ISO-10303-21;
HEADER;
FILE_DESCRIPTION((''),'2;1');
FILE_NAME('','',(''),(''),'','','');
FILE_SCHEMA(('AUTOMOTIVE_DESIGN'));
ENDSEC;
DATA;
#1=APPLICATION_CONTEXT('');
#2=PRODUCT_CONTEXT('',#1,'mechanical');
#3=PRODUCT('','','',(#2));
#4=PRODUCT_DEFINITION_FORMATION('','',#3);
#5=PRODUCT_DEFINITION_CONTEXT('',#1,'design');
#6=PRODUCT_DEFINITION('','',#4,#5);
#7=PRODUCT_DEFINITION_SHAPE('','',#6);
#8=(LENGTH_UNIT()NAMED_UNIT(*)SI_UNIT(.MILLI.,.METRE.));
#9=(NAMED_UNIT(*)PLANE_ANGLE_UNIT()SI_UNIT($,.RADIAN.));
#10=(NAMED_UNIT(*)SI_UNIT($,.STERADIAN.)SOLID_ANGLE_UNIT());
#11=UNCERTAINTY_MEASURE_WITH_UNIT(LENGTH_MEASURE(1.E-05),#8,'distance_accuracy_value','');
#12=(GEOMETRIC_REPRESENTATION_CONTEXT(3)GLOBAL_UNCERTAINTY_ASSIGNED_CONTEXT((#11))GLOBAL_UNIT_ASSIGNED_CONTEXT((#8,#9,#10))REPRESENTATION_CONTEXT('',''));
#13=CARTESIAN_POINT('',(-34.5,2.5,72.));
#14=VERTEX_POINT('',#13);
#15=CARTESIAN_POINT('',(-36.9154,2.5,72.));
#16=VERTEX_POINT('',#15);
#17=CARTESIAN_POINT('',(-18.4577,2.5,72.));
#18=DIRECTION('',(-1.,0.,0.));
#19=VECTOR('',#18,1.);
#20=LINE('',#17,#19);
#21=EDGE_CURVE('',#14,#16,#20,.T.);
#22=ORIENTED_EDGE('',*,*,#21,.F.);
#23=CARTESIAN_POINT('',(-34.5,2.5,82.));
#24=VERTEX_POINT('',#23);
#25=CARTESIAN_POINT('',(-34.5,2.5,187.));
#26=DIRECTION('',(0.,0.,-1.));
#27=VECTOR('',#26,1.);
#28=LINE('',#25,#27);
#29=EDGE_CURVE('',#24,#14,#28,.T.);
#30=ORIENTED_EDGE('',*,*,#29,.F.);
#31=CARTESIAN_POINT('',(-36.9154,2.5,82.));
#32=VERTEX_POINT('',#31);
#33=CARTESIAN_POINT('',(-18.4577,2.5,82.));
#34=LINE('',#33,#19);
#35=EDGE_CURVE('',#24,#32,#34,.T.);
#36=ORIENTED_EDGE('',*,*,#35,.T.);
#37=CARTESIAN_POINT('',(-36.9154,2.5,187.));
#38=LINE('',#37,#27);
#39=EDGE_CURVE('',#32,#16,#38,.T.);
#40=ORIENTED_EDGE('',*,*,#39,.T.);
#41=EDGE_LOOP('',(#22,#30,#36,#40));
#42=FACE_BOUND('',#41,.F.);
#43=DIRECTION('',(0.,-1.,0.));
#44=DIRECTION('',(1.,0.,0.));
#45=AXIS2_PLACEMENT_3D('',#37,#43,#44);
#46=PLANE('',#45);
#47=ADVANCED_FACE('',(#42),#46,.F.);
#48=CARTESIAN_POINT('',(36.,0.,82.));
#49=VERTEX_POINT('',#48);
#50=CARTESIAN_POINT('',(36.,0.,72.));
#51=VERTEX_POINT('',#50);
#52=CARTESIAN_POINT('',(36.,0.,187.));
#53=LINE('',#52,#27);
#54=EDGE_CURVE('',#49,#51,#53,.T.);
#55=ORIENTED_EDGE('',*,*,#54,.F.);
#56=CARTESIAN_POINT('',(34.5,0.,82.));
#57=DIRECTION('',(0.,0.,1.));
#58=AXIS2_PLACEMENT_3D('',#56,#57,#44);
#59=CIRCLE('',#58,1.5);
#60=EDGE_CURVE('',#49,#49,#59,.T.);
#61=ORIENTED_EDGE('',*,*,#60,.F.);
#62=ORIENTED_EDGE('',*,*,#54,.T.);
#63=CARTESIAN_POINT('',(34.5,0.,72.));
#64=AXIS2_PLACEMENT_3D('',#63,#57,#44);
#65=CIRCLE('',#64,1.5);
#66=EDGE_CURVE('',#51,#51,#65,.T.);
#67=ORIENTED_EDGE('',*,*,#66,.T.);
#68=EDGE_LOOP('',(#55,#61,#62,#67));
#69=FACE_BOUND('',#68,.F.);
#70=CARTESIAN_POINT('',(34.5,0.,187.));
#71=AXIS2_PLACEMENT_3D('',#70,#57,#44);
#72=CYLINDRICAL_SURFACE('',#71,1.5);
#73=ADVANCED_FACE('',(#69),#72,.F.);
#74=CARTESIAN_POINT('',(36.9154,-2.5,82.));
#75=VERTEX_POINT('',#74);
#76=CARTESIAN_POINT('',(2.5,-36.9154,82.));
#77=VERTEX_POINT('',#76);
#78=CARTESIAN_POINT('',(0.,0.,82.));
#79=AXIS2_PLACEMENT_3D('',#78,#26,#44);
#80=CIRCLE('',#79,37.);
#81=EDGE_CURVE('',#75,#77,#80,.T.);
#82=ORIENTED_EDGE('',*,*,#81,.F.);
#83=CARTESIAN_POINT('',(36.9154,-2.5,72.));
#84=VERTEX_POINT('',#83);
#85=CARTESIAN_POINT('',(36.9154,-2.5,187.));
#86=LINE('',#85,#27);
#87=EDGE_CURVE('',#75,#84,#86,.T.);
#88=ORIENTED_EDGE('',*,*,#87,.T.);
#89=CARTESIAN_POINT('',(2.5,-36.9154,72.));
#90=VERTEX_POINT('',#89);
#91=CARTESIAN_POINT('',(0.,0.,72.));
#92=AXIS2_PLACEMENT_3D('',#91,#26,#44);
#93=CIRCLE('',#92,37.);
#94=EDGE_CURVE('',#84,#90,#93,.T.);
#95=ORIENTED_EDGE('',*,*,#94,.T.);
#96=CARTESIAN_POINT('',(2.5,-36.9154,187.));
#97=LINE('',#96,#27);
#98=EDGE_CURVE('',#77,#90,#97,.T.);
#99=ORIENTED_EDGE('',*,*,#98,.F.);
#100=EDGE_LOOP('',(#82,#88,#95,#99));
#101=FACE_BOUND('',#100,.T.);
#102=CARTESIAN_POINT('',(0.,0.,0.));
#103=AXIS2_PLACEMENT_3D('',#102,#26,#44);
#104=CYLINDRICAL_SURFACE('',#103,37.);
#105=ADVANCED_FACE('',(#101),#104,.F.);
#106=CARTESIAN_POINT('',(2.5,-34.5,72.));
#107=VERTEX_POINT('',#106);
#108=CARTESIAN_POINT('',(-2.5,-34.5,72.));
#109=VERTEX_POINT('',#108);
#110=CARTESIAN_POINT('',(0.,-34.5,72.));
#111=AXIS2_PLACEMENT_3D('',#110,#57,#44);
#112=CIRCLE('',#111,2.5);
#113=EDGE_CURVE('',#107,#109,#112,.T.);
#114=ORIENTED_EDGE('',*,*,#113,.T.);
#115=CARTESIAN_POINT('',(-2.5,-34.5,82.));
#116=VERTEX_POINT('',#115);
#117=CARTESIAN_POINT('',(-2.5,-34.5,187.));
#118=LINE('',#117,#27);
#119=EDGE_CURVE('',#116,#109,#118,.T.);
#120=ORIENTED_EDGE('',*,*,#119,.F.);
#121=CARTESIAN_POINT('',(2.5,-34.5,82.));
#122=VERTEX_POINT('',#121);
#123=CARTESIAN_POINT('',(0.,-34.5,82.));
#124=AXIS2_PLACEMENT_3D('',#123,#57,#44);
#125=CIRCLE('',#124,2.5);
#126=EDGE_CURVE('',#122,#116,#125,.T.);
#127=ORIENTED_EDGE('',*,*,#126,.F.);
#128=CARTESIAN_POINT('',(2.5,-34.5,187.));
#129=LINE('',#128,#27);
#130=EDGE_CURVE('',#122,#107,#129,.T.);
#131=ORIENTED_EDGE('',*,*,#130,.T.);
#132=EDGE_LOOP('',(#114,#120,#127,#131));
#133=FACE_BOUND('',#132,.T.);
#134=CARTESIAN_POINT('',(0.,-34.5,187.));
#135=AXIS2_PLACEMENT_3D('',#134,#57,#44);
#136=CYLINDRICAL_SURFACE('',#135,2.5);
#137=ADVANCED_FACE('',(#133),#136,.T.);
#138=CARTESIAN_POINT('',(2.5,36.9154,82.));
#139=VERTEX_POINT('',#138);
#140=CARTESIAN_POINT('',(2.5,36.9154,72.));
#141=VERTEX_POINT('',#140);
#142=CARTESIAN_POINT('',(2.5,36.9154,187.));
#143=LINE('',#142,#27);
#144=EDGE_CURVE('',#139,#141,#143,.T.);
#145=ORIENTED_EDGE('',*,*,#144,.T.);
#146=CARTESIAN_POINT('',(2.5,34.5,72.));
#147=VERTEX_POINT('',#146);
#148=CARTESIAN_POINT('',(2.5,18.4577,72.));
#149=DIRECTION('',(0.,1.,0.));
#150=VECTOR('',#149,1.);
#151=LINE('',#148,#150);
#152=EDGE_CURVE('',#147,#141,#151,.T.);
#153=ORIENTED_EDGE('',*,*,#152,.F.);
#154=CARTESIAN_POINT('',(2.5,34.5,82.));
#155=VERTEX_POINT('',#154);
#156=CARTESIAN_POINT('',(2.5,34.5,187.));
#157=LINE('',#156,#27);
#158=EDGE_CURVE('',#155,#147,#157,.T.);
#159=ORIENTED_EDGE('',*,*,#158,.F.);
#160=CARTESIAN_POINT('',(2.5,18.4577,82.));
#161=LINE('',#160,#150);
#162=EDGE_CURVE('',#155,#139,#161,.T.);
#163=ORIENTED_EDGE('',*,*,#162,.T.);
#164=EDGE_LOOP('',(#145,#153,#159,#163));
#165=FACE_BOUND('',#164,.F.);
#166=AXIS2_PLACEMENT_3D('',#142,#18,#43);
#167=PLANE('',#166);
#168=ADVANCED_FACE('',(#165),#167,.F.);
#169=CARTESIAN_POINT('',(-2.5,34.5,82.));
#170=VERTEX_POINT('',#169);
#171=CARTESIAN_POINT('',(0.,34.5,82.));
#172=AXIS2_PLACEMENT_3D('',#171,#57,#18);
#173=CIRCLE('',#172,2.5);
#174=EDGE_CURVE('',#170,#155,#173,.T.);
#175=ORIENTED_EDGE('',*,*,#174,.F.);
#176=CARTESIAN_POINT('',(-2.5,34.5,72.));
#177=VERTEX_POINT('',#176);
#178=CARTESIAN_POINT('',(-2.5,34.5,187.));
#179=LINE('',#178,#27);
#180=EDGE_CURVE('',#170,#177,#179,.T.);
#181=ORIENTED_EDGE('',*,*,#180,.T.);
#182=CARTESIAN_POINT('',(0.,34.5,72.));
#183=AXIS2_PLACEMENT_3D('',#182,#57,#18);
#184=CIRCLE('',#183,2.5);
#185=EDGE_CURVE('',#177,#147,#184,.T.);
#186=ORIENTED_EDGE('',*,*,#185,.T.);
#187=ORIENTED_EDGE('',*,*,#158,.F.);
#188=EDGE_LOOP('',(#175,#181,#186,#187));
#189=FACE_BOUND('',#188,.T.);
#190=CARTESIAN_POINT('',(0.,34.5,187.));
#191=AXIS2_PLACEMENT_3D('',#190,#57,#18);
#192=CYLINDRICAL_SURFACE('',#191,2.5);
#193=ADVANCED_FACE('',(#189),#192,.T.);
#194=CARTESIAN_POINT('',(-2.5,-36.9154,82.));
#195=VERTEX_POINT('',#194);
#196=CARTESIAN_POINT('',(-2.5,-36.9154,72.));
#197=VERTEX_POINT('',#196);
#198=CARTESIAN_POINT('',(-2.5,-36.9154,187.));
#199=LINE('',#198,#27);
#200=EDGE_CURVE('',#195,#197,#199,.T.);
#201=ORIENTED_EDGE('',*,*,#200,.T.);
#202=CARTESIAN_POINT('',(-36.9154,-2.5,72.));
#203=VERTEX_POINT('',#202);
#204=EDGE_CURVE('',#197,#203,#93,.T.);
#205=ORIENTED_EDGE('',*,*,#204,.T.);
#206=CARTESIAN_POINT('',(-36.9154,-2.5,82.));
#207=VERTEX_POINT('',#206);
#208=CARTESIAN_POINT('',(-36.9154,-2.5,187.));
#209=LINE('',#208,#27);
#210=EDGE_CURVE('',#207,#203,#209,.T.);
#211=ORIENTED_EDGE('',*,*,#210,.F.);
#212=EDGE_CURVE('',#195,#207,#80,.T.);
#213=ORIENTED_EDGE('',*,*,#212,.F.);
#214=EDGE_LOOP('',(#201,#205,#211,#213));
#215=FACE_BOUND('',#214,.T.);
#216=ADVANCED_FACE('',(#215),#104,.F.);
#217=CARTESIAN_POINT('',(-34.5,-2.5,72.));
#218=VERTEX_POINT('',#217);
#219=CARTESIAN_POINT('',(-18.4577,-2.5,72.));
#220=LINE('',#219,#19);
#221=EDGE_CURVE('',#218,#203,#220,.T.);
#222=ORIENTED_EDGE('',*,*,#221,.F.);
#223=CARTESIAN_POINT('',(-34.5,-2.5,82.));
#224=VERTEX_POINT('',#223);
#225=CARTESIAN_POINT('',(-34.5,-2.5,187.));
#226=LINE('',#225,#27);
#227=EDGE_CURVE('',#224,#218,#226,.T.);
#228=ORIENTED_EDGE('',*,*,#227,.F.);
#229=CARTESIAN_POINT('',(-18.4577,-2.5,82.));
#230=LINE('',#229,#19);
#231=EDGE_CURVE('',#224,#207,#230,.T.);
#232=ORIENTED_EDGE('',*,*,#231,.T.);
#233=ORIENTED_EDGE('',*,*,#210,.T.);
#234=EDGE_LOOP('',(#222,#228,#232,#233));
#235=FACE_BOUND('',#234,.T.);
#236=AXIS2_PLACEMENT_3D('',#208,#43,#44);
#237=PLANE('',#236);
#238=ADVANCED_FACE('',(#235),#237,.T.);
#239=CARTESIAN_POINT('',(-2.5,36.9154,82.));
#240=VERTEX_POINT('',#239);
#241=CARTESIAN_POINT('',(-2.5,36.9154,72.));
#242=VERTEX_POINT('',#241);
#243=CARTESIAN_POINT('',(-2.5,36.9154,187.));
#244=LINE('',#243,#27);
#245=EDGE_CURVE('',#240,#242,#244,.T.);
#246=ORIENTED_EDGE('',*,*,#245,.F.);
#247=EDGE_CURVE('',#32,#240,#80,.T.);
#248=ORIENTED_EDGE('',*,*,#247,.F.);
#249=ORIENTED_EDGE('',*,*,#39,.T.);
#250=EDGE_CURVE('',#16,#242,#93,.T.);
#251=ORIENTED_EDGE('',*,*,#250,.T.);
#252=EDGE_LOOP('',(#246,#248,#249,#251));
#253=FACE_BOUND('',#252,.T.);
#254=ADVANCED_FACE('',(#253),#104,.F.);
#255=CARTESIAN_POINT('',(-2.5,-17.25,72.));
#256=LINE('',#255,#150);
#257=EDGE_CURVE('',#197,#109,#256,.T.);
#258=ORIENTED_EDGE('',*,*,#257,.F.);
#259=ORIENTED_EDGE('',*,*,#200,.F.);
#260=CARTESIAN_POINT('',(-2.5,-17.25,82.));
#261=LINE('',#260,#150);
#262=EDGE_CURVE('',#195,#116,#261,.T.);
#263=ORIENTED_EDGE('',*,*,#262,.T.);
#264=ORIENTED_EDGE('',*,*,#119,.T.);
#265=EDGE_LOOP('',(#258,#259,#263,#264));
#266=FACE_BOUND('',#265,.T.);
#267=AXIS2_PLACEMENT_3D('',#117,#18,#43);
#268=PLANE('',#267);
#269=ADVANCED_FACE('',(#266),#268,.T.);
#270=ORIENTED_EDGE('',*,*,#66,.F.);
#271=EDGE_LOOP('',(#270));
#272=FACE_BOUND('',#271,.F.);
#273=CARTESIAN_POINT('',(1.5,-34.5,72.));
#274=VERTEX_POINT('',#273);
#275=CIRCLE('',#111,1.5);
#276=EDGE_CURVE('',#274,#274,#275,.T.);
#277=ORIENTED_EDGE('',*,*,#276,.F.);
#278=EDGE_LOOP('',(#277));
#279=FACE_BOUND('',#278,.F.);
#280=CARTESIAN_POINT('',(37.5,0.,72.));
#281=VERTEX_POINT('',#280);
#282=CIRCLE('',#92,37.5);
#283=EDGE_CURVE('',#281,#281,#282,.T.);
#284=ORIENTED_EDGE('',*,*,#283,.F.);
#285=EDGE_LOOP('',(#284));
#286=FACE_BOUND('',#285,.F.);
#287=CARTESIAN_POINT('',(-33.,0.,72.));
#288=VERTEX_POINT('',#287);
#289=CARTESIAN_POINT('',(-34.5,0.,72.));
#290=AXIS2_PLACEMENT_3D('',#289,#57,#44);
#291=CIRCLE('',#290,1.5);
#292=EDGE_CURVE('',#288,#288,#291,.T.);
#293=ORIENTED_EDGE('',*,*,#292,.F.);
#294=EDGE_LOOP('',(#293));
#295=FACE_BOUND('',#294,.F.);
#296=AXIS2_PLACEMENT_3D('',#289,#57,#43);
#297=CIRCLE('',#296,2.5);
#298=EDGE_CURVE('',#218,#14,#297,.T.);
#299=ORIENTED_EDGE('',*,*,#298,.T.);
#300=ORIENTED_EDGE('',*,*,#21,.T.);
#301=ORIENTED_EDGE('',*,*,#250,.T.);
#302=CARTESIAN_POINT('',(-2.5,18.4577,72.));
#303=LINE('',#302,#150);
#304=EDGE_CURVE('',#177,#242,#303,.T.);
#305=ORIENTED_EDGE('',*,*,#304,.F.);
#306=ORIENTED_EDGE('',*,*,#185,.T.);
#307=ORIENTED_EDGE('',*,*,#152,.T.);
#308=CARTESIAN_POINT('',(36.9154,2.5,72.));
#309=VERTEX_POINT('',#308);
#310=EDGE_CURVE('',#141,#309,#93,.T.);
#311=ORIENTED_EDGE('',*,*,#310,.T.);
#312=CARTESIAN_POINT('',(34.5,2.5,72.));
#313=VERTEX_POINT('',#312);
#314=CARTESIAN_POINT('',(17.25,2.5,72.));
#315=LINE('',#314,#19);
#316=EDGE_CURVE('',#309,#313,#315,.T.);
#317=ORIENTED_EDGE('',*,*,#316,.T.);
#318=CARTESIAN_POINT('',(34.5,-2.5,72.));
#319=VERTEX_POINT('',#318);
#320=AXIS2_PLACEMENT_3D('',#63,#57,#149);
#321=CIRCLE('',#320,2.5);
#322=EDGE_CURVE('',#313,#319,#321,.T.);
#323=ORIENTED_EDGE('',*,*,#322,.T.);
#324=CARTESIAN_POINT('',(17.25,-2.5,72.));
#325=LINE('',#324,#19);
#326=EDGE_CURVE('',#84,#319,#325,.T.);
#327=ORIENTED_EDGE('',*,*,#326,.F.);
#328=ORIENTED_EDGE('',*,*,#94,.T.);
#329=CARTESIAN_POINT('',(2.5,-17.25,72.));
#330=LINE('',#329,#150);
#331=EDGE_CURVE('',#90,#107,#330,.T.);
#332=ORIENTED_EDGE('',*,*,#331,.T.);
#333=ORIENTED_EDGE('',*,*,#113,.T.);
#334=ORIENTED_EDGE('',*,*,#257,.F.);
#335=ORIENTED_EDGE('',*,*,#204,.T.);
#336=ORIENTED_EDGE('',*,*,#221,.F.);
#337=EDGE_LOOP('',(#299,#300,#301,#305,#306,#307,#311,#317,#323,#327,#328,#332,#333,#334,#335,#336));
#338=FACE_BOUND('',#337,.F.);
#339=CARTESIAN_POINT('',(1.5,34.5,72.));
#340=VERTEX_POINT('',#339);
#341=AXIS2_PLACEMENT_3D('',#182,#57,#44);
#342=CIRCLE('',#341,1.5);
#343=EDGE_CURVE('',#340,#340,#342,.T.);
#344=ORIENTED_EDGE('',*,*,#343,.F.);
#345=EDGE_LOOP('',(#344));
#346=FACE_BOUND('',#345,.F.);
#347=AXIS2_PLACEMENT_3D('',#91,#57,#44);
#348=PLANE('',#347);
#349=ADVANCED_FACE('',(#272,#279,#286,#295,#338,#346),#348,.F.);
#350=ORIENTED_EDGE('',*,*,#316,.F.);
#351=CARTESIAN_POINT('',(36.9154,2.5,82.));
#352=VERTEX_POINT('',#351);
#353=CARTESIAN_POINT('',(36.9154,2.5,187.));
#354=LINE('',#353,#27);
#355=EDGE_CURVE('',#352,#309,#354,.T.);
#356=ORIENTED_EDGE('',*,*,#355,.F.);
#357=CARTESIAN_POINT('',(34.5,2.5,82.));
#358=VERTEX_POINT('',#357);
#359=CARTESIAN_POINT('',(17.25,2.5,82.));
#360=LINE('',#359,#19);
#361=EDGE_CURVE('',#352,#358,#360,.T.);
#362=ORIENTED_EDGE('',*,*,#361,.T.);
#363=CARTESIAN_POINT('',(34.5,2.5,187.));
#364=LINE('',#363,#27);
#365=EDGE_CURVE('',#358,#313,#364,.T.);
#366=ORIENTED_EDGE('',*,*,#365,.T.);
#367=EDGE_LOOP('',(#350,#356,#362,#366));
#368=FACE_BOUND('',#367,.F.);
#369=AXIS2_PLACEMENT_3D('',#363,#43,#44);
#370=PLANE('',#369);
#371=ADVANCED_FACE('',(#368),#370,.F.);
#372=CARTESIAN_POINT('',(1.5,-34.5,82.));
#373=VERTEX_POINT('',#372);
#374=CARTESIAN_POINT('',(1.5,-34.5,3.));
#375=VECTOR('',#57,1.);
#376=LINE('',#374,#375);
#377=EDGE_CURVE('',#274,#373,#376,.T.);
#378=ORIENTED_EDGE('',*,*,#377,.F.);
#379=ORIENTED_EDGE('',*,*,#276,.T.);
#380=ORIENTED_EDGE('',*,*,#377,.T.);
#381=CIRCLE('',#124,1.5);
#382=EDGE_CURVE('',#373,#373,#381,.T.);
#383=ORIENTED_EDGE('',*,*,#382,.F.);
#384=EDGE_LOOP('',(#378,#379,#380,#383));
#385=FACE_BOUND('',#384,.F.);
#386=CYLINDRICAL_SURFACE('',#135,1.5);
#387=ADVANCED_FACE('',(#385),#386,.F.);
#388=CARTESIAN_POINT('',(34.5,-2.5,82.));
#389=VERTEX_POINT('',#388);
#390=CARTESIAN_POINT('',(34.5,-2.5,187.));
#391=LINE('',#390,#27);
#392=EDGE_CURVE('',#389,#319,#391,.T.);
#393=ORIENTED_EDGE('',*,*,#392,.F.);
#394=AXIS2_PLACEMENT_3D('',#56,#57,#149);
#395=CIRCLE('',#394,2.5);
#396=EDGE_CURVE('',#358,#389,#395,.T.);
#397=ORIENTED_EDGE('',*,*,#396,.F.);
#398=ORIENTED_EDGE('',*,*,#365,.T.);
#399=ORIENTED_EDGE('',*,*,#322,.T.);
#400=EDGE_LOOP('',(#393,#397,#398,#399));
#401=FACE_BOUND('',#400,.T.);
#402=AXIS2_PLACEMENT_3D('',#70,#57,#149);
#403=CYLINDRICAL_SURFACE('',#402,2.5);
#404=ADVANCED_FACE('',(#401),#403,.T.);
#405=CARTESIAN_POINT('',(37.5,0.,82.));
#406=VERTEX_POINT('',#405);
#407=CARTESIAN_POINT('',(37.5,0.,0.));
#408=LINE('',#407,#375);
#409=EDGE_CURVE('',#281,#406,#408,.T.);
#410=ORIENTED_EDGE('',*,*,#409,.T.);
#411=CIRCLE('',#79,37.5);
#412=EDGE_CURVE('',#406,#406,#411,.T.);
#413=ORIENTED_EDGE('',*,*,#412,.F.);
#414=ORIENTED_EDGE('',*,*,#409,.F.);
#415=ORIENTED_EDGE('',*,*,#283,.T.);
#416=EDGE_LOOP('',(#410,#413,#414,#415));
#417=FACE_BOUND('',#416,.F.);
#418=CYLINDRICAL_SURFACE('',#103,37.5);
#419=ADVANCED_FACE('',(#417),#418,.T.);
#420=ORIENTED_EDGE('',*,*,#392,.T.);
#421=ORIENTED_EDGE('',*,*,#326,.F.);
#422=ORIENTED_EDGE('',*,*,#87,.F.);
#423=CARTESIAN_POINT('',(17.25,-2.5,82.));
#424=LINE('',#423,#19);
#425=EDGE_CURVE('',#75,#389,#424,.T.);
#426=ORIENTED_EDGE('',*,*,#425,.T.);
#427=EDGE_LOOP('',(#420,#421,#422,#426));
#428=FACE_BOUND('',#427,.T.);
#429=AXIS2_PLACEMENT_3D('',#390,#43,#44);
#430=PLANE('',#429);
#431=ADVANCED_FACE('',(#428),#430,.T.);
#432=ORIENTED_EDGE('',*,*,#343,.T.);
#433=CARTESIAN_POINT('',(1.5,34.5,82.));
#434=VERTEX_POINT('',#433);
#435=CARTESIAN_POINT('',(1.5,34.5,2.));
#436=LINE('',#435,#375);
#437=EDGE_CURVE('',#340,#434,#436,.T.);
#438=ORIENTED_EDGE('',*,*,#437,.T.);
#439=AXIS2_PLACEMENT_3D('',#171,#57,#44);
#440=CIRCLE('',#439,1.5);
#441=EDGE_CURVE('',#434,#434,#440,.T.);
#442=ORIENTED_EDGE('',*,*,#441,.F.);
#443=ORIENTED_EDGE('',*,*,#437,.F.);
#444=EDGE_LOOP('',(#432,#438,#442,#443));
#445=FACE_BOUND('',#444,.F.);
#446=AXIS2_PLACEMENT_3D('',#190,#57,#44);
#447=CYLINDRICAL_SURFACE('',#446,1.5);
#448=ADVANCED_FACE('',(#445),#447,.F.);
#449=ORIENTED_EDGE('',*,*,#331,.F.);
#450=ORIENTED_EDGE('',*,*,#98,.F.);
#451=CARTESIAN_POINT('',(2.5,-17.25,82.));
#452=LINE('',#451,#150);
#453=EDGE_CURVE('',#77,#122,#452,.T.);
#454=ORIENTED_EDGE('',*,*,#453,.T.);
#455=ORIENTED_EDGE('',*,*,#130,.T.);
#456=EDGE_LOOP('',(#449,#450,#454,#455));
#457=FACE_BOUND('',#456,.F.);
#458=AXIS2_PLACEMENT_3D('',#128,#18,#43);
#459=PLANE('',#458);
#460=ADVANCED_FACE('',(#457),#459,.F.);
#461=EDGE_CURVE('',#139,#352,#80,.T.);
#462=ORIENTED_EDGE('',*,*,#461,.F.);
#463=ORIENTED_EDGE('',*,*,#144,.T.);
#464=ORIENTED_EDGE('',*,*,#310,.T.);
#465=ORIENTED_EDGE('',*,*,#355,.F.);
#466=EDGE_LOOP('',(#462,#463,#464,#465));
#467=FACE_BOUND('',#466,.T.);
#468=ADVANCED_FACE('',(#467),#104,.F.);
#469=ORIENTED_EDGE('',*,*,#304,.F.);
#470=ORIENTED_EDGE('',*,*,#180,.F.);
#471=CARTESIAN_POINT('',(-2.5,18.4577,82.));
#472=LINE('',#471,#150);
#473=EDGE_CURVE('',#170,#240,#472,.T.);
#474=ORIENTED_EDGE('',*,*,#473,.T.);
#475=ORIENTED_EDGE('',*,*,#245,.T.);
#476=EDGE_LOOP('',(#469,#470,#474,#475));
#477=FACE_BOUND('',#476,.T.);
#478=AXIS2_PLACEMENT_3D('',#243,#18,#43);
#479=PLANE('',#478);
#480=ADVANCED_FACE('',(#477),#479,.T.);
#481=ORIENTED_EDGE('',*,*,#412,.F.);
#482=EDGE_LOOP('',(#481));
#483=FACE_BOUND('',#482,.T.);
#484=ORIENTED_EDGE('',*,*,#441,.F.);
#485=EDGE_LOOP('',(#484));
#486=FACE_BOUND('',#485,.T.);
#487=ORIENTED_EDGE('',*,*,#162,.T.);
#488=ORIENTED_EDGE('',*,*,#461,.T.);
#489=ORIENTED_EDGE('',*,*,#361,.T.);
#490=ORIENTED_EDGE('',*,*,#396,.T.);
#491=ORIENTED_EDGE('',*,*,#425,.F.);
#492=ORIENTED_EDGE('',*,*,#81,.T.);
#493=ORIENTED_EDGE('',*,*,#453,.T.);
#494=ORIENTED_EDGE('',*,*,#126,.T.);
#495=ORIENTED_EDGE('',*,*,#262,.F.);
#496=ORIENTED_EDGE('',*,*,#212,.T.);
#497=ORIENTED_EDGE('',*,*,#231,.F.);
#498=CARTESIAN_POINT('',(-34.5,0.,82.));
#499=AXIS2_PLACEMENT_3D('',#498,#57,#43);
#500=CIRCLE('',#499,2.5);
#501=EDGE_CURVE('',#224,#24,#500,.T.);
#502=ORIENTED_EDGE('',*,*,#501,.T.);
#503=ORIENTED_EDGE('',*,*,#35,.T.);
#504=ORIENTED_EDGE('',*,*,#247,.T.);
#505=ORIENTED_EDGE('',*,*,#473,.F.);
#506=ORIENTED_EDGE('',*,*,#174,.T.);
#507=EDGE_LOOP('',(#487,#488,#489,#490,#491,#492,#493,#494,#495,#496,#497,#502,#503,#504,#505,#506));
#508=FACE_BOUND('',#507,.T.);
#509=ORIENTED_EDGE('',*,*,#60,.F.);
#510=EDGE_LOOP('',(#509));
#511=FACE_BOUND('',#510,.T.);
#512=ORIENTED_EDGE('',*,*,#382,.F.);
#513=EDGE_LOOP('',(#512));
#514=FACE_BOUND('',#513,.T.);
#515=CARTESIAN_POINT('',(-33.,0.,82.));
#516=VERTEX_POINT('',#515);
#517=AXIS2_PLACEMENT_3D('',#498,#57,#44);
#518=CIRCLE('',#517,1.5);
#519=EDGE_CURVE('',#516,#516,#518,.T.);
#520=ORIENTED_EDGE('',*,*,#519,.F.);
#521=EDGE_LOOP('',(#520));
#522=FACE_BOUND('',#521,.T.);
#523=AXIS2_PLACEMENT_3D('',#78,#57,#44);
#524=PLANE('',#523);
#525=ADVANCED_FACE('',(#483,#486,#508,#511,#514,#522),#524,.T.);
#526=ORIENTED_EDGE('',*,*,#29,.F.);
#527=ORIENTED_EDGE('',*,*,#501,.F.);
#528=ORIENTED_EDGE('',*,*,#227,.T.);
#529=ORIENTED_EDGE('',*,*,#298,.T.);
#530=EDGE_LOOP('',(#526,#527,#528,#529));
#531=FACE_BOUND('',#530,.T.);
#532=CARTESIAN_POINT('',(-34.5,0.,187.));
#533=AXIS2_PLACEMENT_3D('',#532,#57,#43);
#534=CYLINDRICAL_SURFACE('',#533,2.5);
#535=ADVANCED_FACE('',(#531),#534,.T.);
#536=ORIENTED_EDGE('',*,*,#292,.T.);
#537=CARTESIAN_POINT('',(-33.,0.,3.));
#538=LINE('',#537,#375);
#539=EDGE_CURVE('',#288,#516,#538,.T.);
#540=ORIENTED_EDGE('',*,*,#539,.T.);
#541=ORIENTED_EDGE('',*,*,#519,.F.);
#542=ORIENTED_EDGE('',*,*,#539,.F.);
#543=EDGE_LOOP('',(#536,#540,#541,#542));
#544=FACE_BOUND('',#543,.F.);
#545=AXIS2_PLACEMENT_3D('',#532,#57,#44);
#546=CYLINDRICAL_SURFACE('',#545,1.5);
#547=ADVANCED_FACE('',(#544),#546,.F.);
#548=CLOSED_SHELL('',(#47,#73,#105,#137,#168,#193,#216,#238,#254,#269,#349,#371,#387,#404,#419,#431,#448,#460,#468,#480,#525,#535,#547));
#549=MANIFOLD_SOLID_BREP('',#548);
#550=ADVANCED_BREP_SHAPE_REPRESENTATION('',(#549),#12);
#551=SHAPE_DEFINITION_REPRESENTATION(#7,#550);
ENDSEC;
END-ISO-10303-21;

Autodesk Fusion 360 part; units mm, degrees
sketch "Esboço2" plane through (0, 0, 0) normal (0, 0, 1) x (1, 0, 0)
  circle A0 centre (0, 0) radius 37.5
  circle A1 centre (0, 0) radius 37
  dimension "d6" = 75
  dimension "d7" = 74
extrude "Extrusão2" add sketch "Esboço2" along normal blind 190
ref_plane "Plano de trabalho9" through (0, 0, 187) normal (0, 0, 1) x (1, 0, 0)
sketch "Esboço10" plane through (0, 0, 187) normal (0, 0, 1) x (1, 0, 0)
  circle A0 centre (0, 0) radius 34.5 construction
  line L0 (0, 0) -> (-68.1762, 0) construction
  line L1 (0, 0) -> (60, 0) construction
  line L2 (0, 0) -> (0, 45) construction
  line L3 (0, 0) -> (0, -43.1659) construction
  circle A1 centre (34.5, 0) radius 1.5
  line L4 (3, -43) -> (3, -42)
  circle A2 centre (0, 34.5) radius 1.5
  circle A3 centre (-34.5, 0) radius 1.5
  circle A4 centre (0, -34.5) radius 1.5
  arc A5 (34.5, 2.5) -> (34.5, -2.5) centre (34.5, 0) ccw
  arc A6 (-2.5, 34.5) -> (2.5, 34.5) centre (0, 34.5) ccw
  arc A7 (-34.5, -2.5) -> (-34.5, 2.5) centre (-34.5, 0) ccw
  arc A8 (2.5, -34.5) -> (-2.5, -34.5) centre (0, -34.5) ccw
  circle A9 centre (0, 0) radius 37
  line L5 (-36.9154, 2.5) -> (-34.4093, 2.5)
  line L6 (-36.9154, -2.5) -> (-34.4093, -2.5)
  line L7 (34.5, 2.5) -> (36.9154, 2.5)
  line L8 (34.5, -2.5) -> (36.9154, -2.5)
  line L9 (2.5, 36.9154) -> (2.5, 34.4093)
  line L10 (-2.5, 36.9154) -> (-2.5, 34.4093)
  line L11 (-2.5, -34.4093) -> (-2.5, -36.9154)
  line L12 (2.5, -34.4093) -> (2.5, -36.9154)
  dimension "d82" = 69
  dimension "d83" = 3
  dimension "d84" = 2.5
  dimension "d85" = 2.5
  dimension "d87" = 360
  dimension "d89" = 360
  dimension "d90" = 2.5
extrude "Extrusão12" add sketch "Esboço10" against normal blind 184 contours A5 A9 L7 L8 | A6 A9 L9 L10 | A8 A9 L11 L12 | A7 A9 L5 L6
thread "Rosca3"
ref_plane "Plano de trabalho3" through (0, 0, 32) normal (0, 0, 1) x (1, 0, 0)
sketch "Esboço3" plane through (0, 0, 32) normal (0, 0, 1) x (1, 0, 0)
  line L0 (0, 0) -> (0, 37) construction
  line L1 (34.2491, 14) -> (-34.2491, 14)
  circle A0 centre (0, 0) radius 37
  line L2 (31.1288, 20) -> (-31.1288, 20)
  line L3 (32.8634, 17) -> (-32.8634, 17)
  circle A1 centre (0, 0) radius 50
  circle A2 centre (0, 0) radius 37.5
  line L4 (-8, 0) -> (8, 0)
  line L5 (8, 0) -> (8, 36.1248)
  line L6 (-8, 0) -> (-8, 36.1248)
  circle A3 centre (0, 34.5) radius 1.5
  line L7 (1.5, 32.5) -> (1.5, 0)
  arc A4 (-2.5, 34.5) -> (2.5, 34.5) centre (0, 34.5) ccw
  line L8 (-1.5, 32.5) -> (-1.5, 0)
  line L9 (27.8634, 24.3441) -> (27.8634, 11)
  line L10 (27.8634, 11) -> (35.327, 11)
  line L11 (-27.8634, 11) -> (-35.327, 11)
  line L12 (-27.8634, 24.3441) -> (-27.8634, 11)
  line L13 (-30.4631, 21) -> (30.4631, 21)
  line L14 (-34.641, 13) -> (34.641, 13)
  line L15 (0, 32) -> (8, 32)
  line L16 (0, 32) -> (-8, 32)
  dimension "d12" = 6
  dimension "d15" = 3
  dimension "d17" = 75
  dimension "d18" = 100
  dimension "d41" = 14
  dimension "d51" = 8
  dimension "d52" = 16
  dimension "d99" = 3
  dimension "d100" = 2.5
  dimension "d115" = 6.5
  dimension "d123" = 5
  dimension "d124" = 6
  dimension "d143" = 4
  dimension "d144" = 4
extrude "Extrusão21" add sketch "Esboço3" along normal blind 6 and the other way blind 6 contours L1 A0 L9 L14 | L1 A0 L3 L9 | A0 L9 L10 L14 | A0 L2 L3 L9 | A0 L2 L9 L13 | A0 L9 L13 | A0 L11 L12 L14 | L1 A0 L12 L14 | L1 A0 L3 L12 | A0 L2 L3 L12 | A0 L12 L13 | A0 L2 L12 L13
sketch "Esboço18" plane through (-27.8634, 0, 0) normal (1, 0, 0) x (0, 1, 0)
  line L0 (24.3441, 26) -> (24.3441, 38)
  line L1 (24.3441, 38) -> (11, 38)
  line L2 (11, 38) -> (11, 26)
  line L3 (11, 26) -> (24.3441, 26)
  circle A0 centre (17, 32) radius 4
  point P0 (11, 32)
  dimension "d166" = 8
  dimension "d167" = 6
  dimension "d168" = 6
ref_plane "Plano de trabalho11" through (0, 0, 0) normal (1, 0, 0) x (0, 1, 0)
extrude "Extrusão23" cut sketch "Esboço18" against normal blind 15 contours A0
extrude "Extrusão7" add sketch "Esboço3" along normal blind 30 and the other way blind 30 contours L1 L5 L7 L14 | L1 L3 L5 L7 | L4 L5 L7 L14 | L2 L3 L5 L7 | L1 L6 L8 L14 | L1 L3 L6 L8 | L2 L5 L7 L13 | L2 L3 L6 L8 | L4 L6 L8 L14 | L5 L7 L13 L15 | A0 L5 L6 L7 A4 L8 L15 L16 | L2 L6 L8 L13 | L6 L8 L13 L16 | L7 A4 L15 | A4 L8 L16
sketch "Esboço19" plane through (27.8634, 0, 0) normal (-1, 0, 0) x (0, -1, 0)
  line L0 (-11, 26) -> (-11, 38)
  line L1 (-11, 38) -> (-24.3441, 38)
  line L2 (-24.3441, 38) -> (-24.3441, 26)
  line L3 (-24.3441, 26) -> (-11, 26)
extrude "Extrusão24" cut sketch "Esboço18" along normal blind 80 contours A0
sketch "Esboço11" plane through (8, 0, 0) normal (1, 0, 0) x (0, 1, 0)
  line L0 (0, 2) -> (36.1248, 2)
  line L1 (36.1248, 2) -> (36.1248, 62)
  line L2 (36.1248, 62) -> (0, 62)
  line L3 (0, 62) -> (0, 2)
  circle A0 centre (17, 32) radius 3
  circle A1 centre (17, 32) radius 9.5
  circle A2 centre (17, 32) radius 12.5
  line L4 (36.1248, 32) -> (36.1248, -5) construction
  line L5 (0, 32) -> (36.1248, 32)
  line L6 (30.1248, 2) -> (8.3278, 22.9976)
  line L7 (30.1248, 62) -> (8.3278, 41.0024)
  line L8 (30.1248, 2) -> (31.9998, 2)
  line L9 (31.9998, 2) -> (31.9998, 32)
  line L10 (30.1248, 62) -> (31.9998, 62)
  line L11 (31.9998, 62) -> (31.9998, 32)
  circle A3 centre (17, 32) radius 4
  point P0 (14, 32)
  point P1 (20, 32)
  dimension "d106" = 6
  dimension "d107" = 19
  dimension "d109" = 25
  dimension "d110" = 6
  dimension "d147" = 1.875
extrude "Extrusão13" cut sketch "Esboço11" against normal blind 16 contours L0 L3 A2 L5 L6 | L0 A2 L5 L6 L8 L9 | L2 L3 A2 L5 L7 | A1 A2 L5 | A1 A2 L5 | L2 A2 L5 L7 L10 L11 | A1 L5 A3 | A1 L5 A3 | A0 L5 A3 | A0 L5 A3 | A0 L5 | A0 L5
ref_plane "Plano de trabalho4" through (0, 0, 150) normal (0, 0, 1) x (1, 0, 0)
sketch "Esboço4" plane through (0, 0, 150) normal (0, 0, 1) x (1, 0, 0)
  circle A0 centre (0, 0) radius 37
  circle A1 centre (0, 0) radius 50
  circle A2 centre (0, 0) radius 37.5
  line L0 (-20, -31.1288) -> (-20, 31.1288)
  line L1 (-17, -32.8634) -> (-17, 32.8634)
  line L2 (-14, -34.2491) -> (-14, 34.2491)
  line L3 (0, 8) -> (0, -8)
  line L4 (0, 8) -> (-36.1248, 8)
  line L5 (0, -8) -> (-36.1248, -8)
  line L6 (0, 0) -> (-37, 0) construction
  circle A3 centre (-34.5, 0) radius 1.5
  line L7 (0, 1.5) -> (-32.5, 1.5)
  arc A4 (-34.5, -2.5) -> (-34.5, 2.5) centre (-34.5, 0) ccw
  line L8 (0, -1.5) -> (-32.5, -1.5)
  line L9 (-24.3441, -27.8634) -> (-11, -27.8634)
  line L10 (-11, -27.8634) -> (-11, -35.327)
  line L11 (-24.3441, 27.8634) -> (-11, 27.8634)
  line L12 (-11, 27.8634) -> (-11, 35.327)
  line L13 (-13, 34.641) -> (-13, -34.641)
  line L14 (-21, 30.4631) -> (-21, -30.4631)
  line L15 (-32, 0) -> (-32, 8)
  line L16 (-32, 0) -> (-32, -8)
  dimension "d28" = 75
  dimension "d29" = 100
  dimension "d38" = 14
  dimension "d39" = 6
  dimension "d40" = 3
  dimension "d43" = 16
  dimension "d44" = 8
  dimension "d101" = 3
  dimension "d102" = 2.5
  dimension "d116" = 6.5
  dimension "d135" = 6
  dimension "d136" = 5
  dimension "d145" = 4
  dimension "d146" = 4
extrude "Extrusão25" add sketch "Esboço4" along normal blind 6 and the other way blind 6 contours A0 L11 L12 L13 | A0 L9 L10 L13 | A0 L2 L11 L13 | A0 L2 L9 L13 | A0 L1 L2 L11 | A0 L1 L2 L9 | A0 L0 L1 L11 | A0 L0 L1 L9 | A0 L0 L11 L14 | A0 L0 L9 L14 | A0 L11 L14 | A0 L9 L14
sketch "Esboço20" plane through (0, 27.8634, 0) normal (0, -1, 0) x (1, 0, 0)
  line L0 (-11, 144) -> (-11, 156)
  line L1 (-11, 156) -> (-24.3441, 156)
  line L2 (-24.3441, 156) -> (-24.3441, 144)
  line L3 (-24.3441, 144) -> (-11, 144)
  circle A0 centre (-17, 150) radius 4
  dimension "d179" = 8
  dimension "d180" = 6
  dimension "d182" = 6
extrude "Extrusão26" cut sketch "Esboço20" against normal blind 15 contours A0
sketch "Esboço21" plane through (0, -27.8634, 0) normal (0, 1, 0) x (-1, 0, 0)
  line L0 (24.3441, 144) -> (24.3441, 156)
  line L1 (24.3441, 156) -> (11, 156)
  line L2 (11, 156) -> (11, 144)
  line L3 (11, 144) -> (24.3441, 144)
  circle A0 centre (17, 150) radius 4
  dimension "d185" = 8
  dimension "d186" = 6
  dimension "d187" = 6
extrude "Extrusão27" cut sketch "Esboço21" against normal blind 15 contours A0
extrude "Extrusão6" add sketch "Esboço4" along normal blind 30 and the other way blind 30 contours L2 L4 L7 L13 | L3 L4 L7 L13 | L3 L5 L8 L13 | L2 L5 L8 L13 | L1 L2 L4 L7 | L1 L2 L5 L8 | L0 L1 L4 L7 | L0 L1 L5 L8 | L0 L4 L7 L14 | L0 L5 L8 L14 | A0 L4 L5 L7 A4 L8 L15 L16 | L4 L7 L14 L15 | L5 L8 L14 L16 | L7 A4 L15 | A4 L8 L16
sketch "Esboço13" plane through (0, -8, 0) normal (0, -1, 0) x (1, 0, 0)
  line L0 (0, 120) -> (0, 180)
  line L1 (0, 180) -> (-36.1248, 180)
  line L2 (-36.1248, 180) -> (-36.1248, 120)
  line L3 (-36.1248, 120) -> (0, 120)
  circle A0 centre (-17, 150) radius 3
  circle A1 centre (-17, 150) radius 9.5
  circle A2 centre (-17, 150) radius 12.5
  line L4 (-36.1248, 150) -> (-36.1248, 198.4836) construction
  line L5 (-30.1248, 180) -> (-6.6704, 157.4058)
  line L6 (0, 150) -> (-36.1248, 150)
  line L7 (-30.1248, 120) -> (-6.6704, 142.5942)
  line L8 (-30.1248, 180) -> (-31.9998, 180)
  line L9 (-31.9998, 180) -> (-31.9998, 150)
  line L10 (-30.1248, 120) -> (-31.9998, 120)
  line L11 (-31.9998, 120) -> (-31.9998, 150)
  point P0 (-14, 150)
  point P1 (-20, 150)
  dimension "d117" = 6
  dimension "d118" = 19
  dimension "d119" = 25
  dimension "d120" = 6
  dimension "d148" = 1.875
extrude "Extrusão14" cut sketch "Esboço13" against normal blind 16 contours L0 L3 A2 L6 L7 | L0 L1 A2 L5 L6 | L3 A2 L6 L7 L10 L11 | A1 A2 L6 | A1 A2 L6 | L1 A2 L5 L6 L8 L9 | A0 A1 L6 | A0 A1 L6 | A0 L6 | A0 L6
ref_plane "Plano de trabalho5" through (0, 0, 0) normal (1, 0, 0) x (0, 1, 0)
ref_plane "Plano de trabalho6" through (0, 0, 0) normal (0, 1, 0) x (0, 0, 1)
ref_plane "Plano de trabalho7" through (0, 0, 134.3) normal (0, 0, 1) x (1, 0, 0)
sketch "Esboço8" plane through (0, 0, 134.3) normal (0, 0, 1) x (1, 0, 0)
  line L0 (46.3444, 0) -> (0, 0) construction
  line L1 (8, 36.1248) -> (8, -36.1248)
  line L2 (-8, -36.1248) -> (-8, 36.1248)
  circle A0 centre (0, 0) radius 37
  line L3 (0, 0) -> (0, 37) construction
  circle A1 centre (0, 34.5) radius 1.5
  circle A2 centre (0, -34.5) radius 1.5
  dimension "d72" = 8
  dimension "d73" = 8
  dimension "d95" = 2.5
  dimension "d96" = 3
extrude "Extrusão10" add sketch "Esboço8" along normal blind 2 contours L1 L2 A0
ref_plane "Plano de trabalho8" through (0, 0, 45.7) normal (0, 0, 1) x (1, 0, 0)
sketch "Esboço9" plane through (0, 0, 45.7) normal (0, 0, 1) x (1, 0, 0)
  line L0 (0, 0) -> (-37, 0) construction
  line L1 (-36.1248, 8) -> (36.1248, 8)
  line L2 (-36.1248, -8) -> (36.1248, -8)
  circle A0 centre (0, 0) radius 37
  circle A1 centre (-34.5, 0) radius 1.5
  line L3 (0, 0) -> (0, 43.2459) construction
  circle A2 centre (34.5, 0) radius 1.5
  dimension "d77" = 8
  dimension "d78" = 8
  dimension "d97" = 3
  dimension "d98" = 2.5
extrude "Extrusão11" add sketch "Esboço9" along normal blind 2 contours L1 L2 A0
ref_plane "Plano de trabalho10" through (8, 18.0624, 32) normal (1, 0, 0) x (0, 1, 0)
sketch "Esboço16" plane through (-31.9998, 0, 0) normal (1, 0, 0) x (0, 1, 0)
  line L0 (1.5, 180) -> (1.5, 120)
  line L1 (1.5, 120) -> (8, 120)
  line L2 (8, 120) -> (8, 180)
  line L3 (8, 180) -> (1.5, 180)
  line L4 (4.75, 180) -> (4.75, 120) construction
  circle A0 centre (4.75, 170) radius 1.5
  circle A1 centre (4.75, 130) radius 1.5
  line L5 (8, 150) -> (-12.335, 150) construction
  line L6 (0, 2.5) -> (0, 20)
  circle A2 centre (-4.75, 170) radius 1.5
  circle A3 centre (-4.75, 130) radius 1.5
  dimension "d149" = 3
  dimension "d150" = 3
  dimension "d151" = 40
  dimension "d152" = 20
extrude "Extrusão19" cut sketch "Esboço16" against normal blind 10 contours A0 | A1 | A2 | A3
sketch "Esboço17" plane through (0, 31.9998, 0) normal (0, -1, 0) x (1, 0, 0)
  line L0 (1.5, 62) -> (1.5, 2)
  line L1 (1.5, 2) -> (8, 2)
  line L2 (8, 2) -> (8, 62)
  line L3 (8, 62) -> (1.5, 62)
  line L4 (4.75, 2) -> (4.75, 62) construction
  line L5 (8, 32) -> (-12, 32) construction
  circle A0 centre (4.75, 52) radius 1.5
  circle A1 centre (4.75, 12) radius 1.5
  line L6 (0, 1.75) -> (0, 22.5)
  circle A2 centre (-4.75, 12) radius 1.5
  circle A3 centre (-4.75, 52) radius 1.5
  dimension "d155" = 3
  dimension "d156" = 3
  dimension "d157" = 40
  dimension "d158" = 20
extrude "Extrusão20" cut sketch "Esboço17" against normal blind 10 contours A0 | A1 | A2 | A3
thread "Rosca4"
thread "Rosca5"
sketch "Esboço22" plane through (0, 0, 136.3) normal (0, 0, 1) x (-1, 0, 0)
  line L0 (2.5, 36.9154) -> (2.5, 34.5)
  arc A0 (-2.5, 34.5) -> (2.5, 34.5) centre (0, 34.5) ccw
  line L1 (-2.5, 34.5) -> (-2.5, 36.9154)
  arc A1 (-2.5, 36.9154) -> (-8, 36.1248) centre (0, 0) ccw
  line L2 (-8, 36.1248) -> (-8, -36.1248)
  arc A2 (-8, -36.1248) -> (-2.5, -36.9154) centre (0, 0) ccw
  line L3 (-2.5, -36.9154) -> (-2.5, -34.5)
  arc A3 (2.5, -34.5) -> (-2.5, -34.5) centre (0, -34.5) ccw
  line L4 (2.5, -34.5) -> (2.5, -36.9154)
  arc A4 (2.5, -36.9154) -> (8, -36.1248) centre (0, 0) ccw
  line L5 (8, -36.1248) -> (8, 36.1248)
  arc A5 (8, 36.1248) -> (2.5, 36.9154) centre (0, 0) ccw
  line L6 (0, 0) -> (-21, 0) construction
  line L7 (0, 0) -> (0, -19.3) construction
  line L8 (2, -15.8) -> (-2, -15.8)
  arc A6 (-2, -15.8) -> (-2, -22.8) centre (-2, -19.3) ccw
  line L9 (-2, -22.8) -> (2, -22.8)
  arc A7 (2, -22.8) -> (2, -15.8) centre (2, -19.3) ccw
  line L10 (2, -19.3) -> (-2, -19.3) construction
  arc A8 (-2, 22.8) -> (-2, 15.8) centre (-2, 19.3) ccw
  line L11 (2, 15.8) -> (-2, 15.8)
  arc A9 (2, 15.8) -> (2, 22.8) centre (2, 19.3) ccw
  line L12 (-2, 22.8) -> (2, 22.8)
  circle A10 centre (0, 10.8) radius 1.5 construction
  line L13 (2, 19.3) -> (-2, 19.3) construction
  line L14 (2, 12.3) -> (-2, 12.3)
  arc A11 (-2, 12.3) -> (-2, 9.3) centre (-2, 10.8) ccw
  line L15 (-2, 9.3) -> (2, 9.3)
  arc A12 (2, 9.3) -> (2, 12.3) centre (2, 10.8) ccw
  line L16 (2, 10.8) -> (-2, 10.8) construction
  line L17 (2, 26.3) -> (-2, 26.3)
  arc A13 (2, 26.3) -> (2, 29.3) centre (2, 27.8) ccw
  line L18 (-2, 29.3) -> (2, 29.3)
  arc A14 (-2, 29.3) -> (-2, 26.3) centre (-2, 27.8) ccw
  arc A15 (2, -29.3) -> (2, -26.3) centre (2, -27.8) ccw
  line L19 (2, -26.3) -> (-2, -26.3)
  arc A16 (-2, -26.3) -> (-2, -29.3) centre (-2, -27.8) ccw
  line L20 (-2, -29.3) -> (2, -29.3)
  arc A17 (2, -12.3) -> (2, -9.3) centre (2, -10.8) ccw
  line L21 (-2, -9.3) -> (2, -9.3)
  arc A18 (-2, -9.3) -> (-2, -12.3) centre (-2, -10.8) ccw
  line L22 (2, -12.3) -> (-2, -12.3)
  point P0 (0, -19.3)
  point P1 (0, 10.8)
  dimension "d191" = 19.3
  dimension "d195" = 2
  dimension "d196" = 3.5
  dimension "d204" = 3
  dimension "d205" = 8.5
  dimension "d230" = 1.5
  dimension "d231" = 4
extrude "Extrusão28" cut sketch "Esboço22" against normal blind 5 contours L8 A6 L9 A7 | A8 L11 A9 L12 | L14 A11 L15 A12 | L17 A13 L18 A14 | A15 L19 A16 L20 | A17 L21 A18 L22
sketch "Esboço23" plane through (0, 0, 45.7) normal (0, 0, -1) x (1, 0, 0)
  line L0 (36.9154, -2.5) -> (34.5, -2.5)
  arc A0 (34.5, 2.5) -> (34.5, -2.5) centre (34.5, 0) ccw
  line L1 (34.5, 2.5) -> (36.9154, 2.5)
  arc A1 (36.9154, 2.5) -> (36.1248, 8) centre (0, 0) ccw
  line L2 (36.1248, 8) -> (-36.1248, 8)
  arc A2 (-36.1248, 8) -> (-36.9154, 2.5) centre (0, 0) ccw
  line L3 (-36.9154, 2.5) -> (-34.5, 2.5)
  arc A3 (-34.5, -2.5) -> (-34.5, 2.5) centre (-34.5, 0) ccw
  line L4 (-34.5, -2.5) -> (-36.9154, -2.5)
  arc A4 (-36.9154, -2.5) -> (-36.1248, -8) centre (0, 0) ccw
  line L5 (-36.1248, -8) -> (36.1248, -8)
  arc A5 (36.1248, -8) -> (36.9154, -2.5) centre (0, 0) ccw
  line L6 (0, 0) -> (0, -19) construction
  line L7 (0, 0) -> (19.3, 0)
  line L8 (15.8, 2.5) -> (15.8, -2.5)
  arc A6 (15.8, -2.5) -> (22.8, -2.5) centre (19.3, -2.5) ccw
  line L9 (22.8, -2.5) -> (22.8, 2.5)
  arc A7 (22.8, 2.5) -> (15.8, 2.5) centre (19.3, 2.5) ccw
  line L10 (19.3, 2.5) -> (19.3, -2.5) construction
  line L11 (-15.8, 2.5) -> (-15.8, -2.5)
  arc A8 (-15.8, 2.5) -> (-22.8, 2.5) centre (-19.3, 2.5) ccw
  line L12 (-22.8, -2.5) -> (-22.8, 2.5)
  arc A9 (-22.8, -2.5) -> (-15.8, -2.5) centre (-19.3, -2.5) ccw
  circle A10 centre (10.8, 0) radius 1.5 construction
  circle A11 centre (27.8, 0) radius 1.5 construction
  line L13 (9.3, 2.5) -> (9.3, -2.5)
  arc A12 (9.3, -2.5) -> (12.3, -2.5) centre (10.8, -2.5) ccw
  line L14 (12.3, -2.5) -> (12.3, 2.5)
  arc A13 (12.3, 2.5) -> (9.3, 2.5) centre (10.8, 2.5) ccw
  line L15 (10.8, 2.5) -> (10.8, -2.5) construction
  line L16 (26.3, -2.5) -> (26.3, 2.5)
  arc A14 (26.3, -2.5) -> (29.3, -2.5) centre (27.8, -2.5) ccw
  line L17 (29.3, 2.5) -> (29.3, -2.5)
  arc A15 (29.3, 2.5) -> (26.3, 2.5) centre (27.8, 2.5) ccw
  line L18 (-12.3, -2.5) -> (-12.3, 2.5)
  arc A16 (-12.3, -2.5) -> (-9.3, -2.5) centre (-10.8, -2.5) ccw
  line L19 (-9.3, 2.5) -> (-9.3, -2.5)
  arc A17 (-9.3, 2.5) -> (-12.3, 2.5) centre (-10.8, 2.5) ccw
  line L20 (-26.3, -2.5) -> (-26.3, 2.5)
  arc A18 (-29.3, -2.5) -> (-26.3, -2.5) centre (-27.8, -2.5) ccw
  line L21 (-29.3, 2.5) -> (-29.3, -2.5)
  arc A19 (-26.3, 2.5) -> (-29.3, 2.5) centre (-27.8, 2.5) ccw
  point P0 (19.3, 0)
  point P1 (10.8, 0)
  dimension "d199" = 3.5
  dimension "d200" = 5
  dimension "d201" = 19.3
  dimension "d206" = 3
  dimension "d207" = 8.5
  dimension "d228" = 2.5
  dimension "d229" = 1.5
extrude "Extrusão29" cut sketch "Esboço23" against normal blind 10 contours L7 L13 L14 A13 | L8 A6 L9 A7 | L7 L13 A12 L14 | L11 A8 L12 A9 | L16 A14 L17 A15 | L20 A18 L21 A19
ref_plane "Plano de trabalho12" through (0, 0, 106.3) normal (0, 0, 1) x (1, 0, 0)
sketch "Esboço24" plane through (0, 0, 106.3) normal (0, 0, 1) x (1, 0, 0)
  line L0 (0, 0) -> (28.1868, 0) construction
  line L1 (16, 0) -> (16, 33.3617)
  circle A0 centre (0, 0) radius 37
  line L2 (16, 0) -> (16, -33.3617)
  line L3 (0, 0) -> (0, 19.3) construction
  line L4 (-16, 0) -> (-16, 33.3617)
  line L5 (-16, 0) -> (-16, -33.3617)
  line L6 (-2, 6.8) -> (2, 6.8)
  arc A1 (2, 6.8) -> (2, 31.8) centre (2, 19.3) ccw
  line L7 (2, 31.8) -> (-2, 31.8)
  arc A2 (-2, 31.8) -> (-2, 6.8) centre (-2, 19.3) ccw
  line L8 (-2, 19.3) -> (2, 19.3) construction
  arc A3 (2, -31.8) -> (2, -6.8) centre (2, -19.3) ccw
  arc A4 (-2, -6.8) -> (-2, -31.8) centre (-2, -19.3) ccw
  line L9 (-2, -6.8) -> (2, -6.8)
  line L10 (2, -31.8) -> (-2, -31.8)
  circle A5 centre (0, 34.5) radius 1.5
  circle A6 centre (0, -34.5) radius 1.5
  point P0 (0, 19.3)
  dimension "d209" = 16
  dimension "d210" = 12.5
  dimension "d211" = 4
  dimension "d212" = 19.3
  dimension "d215" = 3
  dimension "d216" = 34.5
ref_plane "Plano de trabalho13" through (0, 0, 55.7) normal (0, 0, -1) x (-1, 0, 0)
ref_plane "Plano de trabalho14" through (0, 0, 60) normal (0, 0, 1) x (1, 0, 0)
sketch "Esboço25" plane through (0, 0, 55.7) normal (0, 0, -1) x (1, 0, 0)
  line L0 (-33.3617, 16) -> (33.3617, 16)
  circle A0 centre (0, 0) radius 37
  line L1 (0, 0) -> (-19.3, 0) construction
  line L2 (-33.3617, -16) -> (33.3617, -16)
  line L3 (-6.8, -2) -> (-6.8, 2)
  arc A1 (-6.8, 2) -> (-31.8, 2) centre (-19.3, 2) ccw
  line L4 (-31.8, 2) -> (-31.8, -2)
  arc A2 (-31.8, -2) -> (-6.8, -2) centre (-19.3, -2) ccw
  line L5 (-19.3, -2) -> (-19.3, 2) construction
  circle A3 centre (-34.5, 0) radius 1.5
  line L6 (0, 0) -> (0, -12) construction
  arc A4 (31.8, 2) -> (6.8, 2) centre (19.3, 2) ccw
  line L7 (6.8, -2) -> (6.8, 2)
  arc A5 (6.8, -2) -> (31.8, -2) centre (19.3, -2) ccw
  circle A6 centre (34.5, 0) radius 1.5
  line L8 (31.8, 2) -> (31.8, -2)
  point P0 (-19.3, 0)
  dimension "d219" = 16
  dimension "d220" = 12.5
  dimension "d221" = 4
  dimension "d222" = 19.3
  dimension "d224" = 34.5
  dimension "d225" = 3
ref_plane "Plano de trabalho15" through (0, 0, 72) normal (0, 0, 1) x (1, 0, 0)
ref_plane "Plano de trabalho16" through (0, 0, 82) normal (0, 0, 1) x (1, 0, 0)
sketch "Esboço26" plane through (0, 0, 82) normal (0, 0, 1) x (1, 0, 0)
  circle A0 centre (0, 0) radius 49.0382
extrude "Extrusão32" cut sketch "Esboço26" along normal blind 200
sketch "Esboço27" plane through (0, 0, 72) normal (0, 0, 1) x (1, 0, 0)
  circle A0 centre (0, 0) radius 50
extrude "Extrusão33" cut sketch "Esboço27" against normal blind 100
